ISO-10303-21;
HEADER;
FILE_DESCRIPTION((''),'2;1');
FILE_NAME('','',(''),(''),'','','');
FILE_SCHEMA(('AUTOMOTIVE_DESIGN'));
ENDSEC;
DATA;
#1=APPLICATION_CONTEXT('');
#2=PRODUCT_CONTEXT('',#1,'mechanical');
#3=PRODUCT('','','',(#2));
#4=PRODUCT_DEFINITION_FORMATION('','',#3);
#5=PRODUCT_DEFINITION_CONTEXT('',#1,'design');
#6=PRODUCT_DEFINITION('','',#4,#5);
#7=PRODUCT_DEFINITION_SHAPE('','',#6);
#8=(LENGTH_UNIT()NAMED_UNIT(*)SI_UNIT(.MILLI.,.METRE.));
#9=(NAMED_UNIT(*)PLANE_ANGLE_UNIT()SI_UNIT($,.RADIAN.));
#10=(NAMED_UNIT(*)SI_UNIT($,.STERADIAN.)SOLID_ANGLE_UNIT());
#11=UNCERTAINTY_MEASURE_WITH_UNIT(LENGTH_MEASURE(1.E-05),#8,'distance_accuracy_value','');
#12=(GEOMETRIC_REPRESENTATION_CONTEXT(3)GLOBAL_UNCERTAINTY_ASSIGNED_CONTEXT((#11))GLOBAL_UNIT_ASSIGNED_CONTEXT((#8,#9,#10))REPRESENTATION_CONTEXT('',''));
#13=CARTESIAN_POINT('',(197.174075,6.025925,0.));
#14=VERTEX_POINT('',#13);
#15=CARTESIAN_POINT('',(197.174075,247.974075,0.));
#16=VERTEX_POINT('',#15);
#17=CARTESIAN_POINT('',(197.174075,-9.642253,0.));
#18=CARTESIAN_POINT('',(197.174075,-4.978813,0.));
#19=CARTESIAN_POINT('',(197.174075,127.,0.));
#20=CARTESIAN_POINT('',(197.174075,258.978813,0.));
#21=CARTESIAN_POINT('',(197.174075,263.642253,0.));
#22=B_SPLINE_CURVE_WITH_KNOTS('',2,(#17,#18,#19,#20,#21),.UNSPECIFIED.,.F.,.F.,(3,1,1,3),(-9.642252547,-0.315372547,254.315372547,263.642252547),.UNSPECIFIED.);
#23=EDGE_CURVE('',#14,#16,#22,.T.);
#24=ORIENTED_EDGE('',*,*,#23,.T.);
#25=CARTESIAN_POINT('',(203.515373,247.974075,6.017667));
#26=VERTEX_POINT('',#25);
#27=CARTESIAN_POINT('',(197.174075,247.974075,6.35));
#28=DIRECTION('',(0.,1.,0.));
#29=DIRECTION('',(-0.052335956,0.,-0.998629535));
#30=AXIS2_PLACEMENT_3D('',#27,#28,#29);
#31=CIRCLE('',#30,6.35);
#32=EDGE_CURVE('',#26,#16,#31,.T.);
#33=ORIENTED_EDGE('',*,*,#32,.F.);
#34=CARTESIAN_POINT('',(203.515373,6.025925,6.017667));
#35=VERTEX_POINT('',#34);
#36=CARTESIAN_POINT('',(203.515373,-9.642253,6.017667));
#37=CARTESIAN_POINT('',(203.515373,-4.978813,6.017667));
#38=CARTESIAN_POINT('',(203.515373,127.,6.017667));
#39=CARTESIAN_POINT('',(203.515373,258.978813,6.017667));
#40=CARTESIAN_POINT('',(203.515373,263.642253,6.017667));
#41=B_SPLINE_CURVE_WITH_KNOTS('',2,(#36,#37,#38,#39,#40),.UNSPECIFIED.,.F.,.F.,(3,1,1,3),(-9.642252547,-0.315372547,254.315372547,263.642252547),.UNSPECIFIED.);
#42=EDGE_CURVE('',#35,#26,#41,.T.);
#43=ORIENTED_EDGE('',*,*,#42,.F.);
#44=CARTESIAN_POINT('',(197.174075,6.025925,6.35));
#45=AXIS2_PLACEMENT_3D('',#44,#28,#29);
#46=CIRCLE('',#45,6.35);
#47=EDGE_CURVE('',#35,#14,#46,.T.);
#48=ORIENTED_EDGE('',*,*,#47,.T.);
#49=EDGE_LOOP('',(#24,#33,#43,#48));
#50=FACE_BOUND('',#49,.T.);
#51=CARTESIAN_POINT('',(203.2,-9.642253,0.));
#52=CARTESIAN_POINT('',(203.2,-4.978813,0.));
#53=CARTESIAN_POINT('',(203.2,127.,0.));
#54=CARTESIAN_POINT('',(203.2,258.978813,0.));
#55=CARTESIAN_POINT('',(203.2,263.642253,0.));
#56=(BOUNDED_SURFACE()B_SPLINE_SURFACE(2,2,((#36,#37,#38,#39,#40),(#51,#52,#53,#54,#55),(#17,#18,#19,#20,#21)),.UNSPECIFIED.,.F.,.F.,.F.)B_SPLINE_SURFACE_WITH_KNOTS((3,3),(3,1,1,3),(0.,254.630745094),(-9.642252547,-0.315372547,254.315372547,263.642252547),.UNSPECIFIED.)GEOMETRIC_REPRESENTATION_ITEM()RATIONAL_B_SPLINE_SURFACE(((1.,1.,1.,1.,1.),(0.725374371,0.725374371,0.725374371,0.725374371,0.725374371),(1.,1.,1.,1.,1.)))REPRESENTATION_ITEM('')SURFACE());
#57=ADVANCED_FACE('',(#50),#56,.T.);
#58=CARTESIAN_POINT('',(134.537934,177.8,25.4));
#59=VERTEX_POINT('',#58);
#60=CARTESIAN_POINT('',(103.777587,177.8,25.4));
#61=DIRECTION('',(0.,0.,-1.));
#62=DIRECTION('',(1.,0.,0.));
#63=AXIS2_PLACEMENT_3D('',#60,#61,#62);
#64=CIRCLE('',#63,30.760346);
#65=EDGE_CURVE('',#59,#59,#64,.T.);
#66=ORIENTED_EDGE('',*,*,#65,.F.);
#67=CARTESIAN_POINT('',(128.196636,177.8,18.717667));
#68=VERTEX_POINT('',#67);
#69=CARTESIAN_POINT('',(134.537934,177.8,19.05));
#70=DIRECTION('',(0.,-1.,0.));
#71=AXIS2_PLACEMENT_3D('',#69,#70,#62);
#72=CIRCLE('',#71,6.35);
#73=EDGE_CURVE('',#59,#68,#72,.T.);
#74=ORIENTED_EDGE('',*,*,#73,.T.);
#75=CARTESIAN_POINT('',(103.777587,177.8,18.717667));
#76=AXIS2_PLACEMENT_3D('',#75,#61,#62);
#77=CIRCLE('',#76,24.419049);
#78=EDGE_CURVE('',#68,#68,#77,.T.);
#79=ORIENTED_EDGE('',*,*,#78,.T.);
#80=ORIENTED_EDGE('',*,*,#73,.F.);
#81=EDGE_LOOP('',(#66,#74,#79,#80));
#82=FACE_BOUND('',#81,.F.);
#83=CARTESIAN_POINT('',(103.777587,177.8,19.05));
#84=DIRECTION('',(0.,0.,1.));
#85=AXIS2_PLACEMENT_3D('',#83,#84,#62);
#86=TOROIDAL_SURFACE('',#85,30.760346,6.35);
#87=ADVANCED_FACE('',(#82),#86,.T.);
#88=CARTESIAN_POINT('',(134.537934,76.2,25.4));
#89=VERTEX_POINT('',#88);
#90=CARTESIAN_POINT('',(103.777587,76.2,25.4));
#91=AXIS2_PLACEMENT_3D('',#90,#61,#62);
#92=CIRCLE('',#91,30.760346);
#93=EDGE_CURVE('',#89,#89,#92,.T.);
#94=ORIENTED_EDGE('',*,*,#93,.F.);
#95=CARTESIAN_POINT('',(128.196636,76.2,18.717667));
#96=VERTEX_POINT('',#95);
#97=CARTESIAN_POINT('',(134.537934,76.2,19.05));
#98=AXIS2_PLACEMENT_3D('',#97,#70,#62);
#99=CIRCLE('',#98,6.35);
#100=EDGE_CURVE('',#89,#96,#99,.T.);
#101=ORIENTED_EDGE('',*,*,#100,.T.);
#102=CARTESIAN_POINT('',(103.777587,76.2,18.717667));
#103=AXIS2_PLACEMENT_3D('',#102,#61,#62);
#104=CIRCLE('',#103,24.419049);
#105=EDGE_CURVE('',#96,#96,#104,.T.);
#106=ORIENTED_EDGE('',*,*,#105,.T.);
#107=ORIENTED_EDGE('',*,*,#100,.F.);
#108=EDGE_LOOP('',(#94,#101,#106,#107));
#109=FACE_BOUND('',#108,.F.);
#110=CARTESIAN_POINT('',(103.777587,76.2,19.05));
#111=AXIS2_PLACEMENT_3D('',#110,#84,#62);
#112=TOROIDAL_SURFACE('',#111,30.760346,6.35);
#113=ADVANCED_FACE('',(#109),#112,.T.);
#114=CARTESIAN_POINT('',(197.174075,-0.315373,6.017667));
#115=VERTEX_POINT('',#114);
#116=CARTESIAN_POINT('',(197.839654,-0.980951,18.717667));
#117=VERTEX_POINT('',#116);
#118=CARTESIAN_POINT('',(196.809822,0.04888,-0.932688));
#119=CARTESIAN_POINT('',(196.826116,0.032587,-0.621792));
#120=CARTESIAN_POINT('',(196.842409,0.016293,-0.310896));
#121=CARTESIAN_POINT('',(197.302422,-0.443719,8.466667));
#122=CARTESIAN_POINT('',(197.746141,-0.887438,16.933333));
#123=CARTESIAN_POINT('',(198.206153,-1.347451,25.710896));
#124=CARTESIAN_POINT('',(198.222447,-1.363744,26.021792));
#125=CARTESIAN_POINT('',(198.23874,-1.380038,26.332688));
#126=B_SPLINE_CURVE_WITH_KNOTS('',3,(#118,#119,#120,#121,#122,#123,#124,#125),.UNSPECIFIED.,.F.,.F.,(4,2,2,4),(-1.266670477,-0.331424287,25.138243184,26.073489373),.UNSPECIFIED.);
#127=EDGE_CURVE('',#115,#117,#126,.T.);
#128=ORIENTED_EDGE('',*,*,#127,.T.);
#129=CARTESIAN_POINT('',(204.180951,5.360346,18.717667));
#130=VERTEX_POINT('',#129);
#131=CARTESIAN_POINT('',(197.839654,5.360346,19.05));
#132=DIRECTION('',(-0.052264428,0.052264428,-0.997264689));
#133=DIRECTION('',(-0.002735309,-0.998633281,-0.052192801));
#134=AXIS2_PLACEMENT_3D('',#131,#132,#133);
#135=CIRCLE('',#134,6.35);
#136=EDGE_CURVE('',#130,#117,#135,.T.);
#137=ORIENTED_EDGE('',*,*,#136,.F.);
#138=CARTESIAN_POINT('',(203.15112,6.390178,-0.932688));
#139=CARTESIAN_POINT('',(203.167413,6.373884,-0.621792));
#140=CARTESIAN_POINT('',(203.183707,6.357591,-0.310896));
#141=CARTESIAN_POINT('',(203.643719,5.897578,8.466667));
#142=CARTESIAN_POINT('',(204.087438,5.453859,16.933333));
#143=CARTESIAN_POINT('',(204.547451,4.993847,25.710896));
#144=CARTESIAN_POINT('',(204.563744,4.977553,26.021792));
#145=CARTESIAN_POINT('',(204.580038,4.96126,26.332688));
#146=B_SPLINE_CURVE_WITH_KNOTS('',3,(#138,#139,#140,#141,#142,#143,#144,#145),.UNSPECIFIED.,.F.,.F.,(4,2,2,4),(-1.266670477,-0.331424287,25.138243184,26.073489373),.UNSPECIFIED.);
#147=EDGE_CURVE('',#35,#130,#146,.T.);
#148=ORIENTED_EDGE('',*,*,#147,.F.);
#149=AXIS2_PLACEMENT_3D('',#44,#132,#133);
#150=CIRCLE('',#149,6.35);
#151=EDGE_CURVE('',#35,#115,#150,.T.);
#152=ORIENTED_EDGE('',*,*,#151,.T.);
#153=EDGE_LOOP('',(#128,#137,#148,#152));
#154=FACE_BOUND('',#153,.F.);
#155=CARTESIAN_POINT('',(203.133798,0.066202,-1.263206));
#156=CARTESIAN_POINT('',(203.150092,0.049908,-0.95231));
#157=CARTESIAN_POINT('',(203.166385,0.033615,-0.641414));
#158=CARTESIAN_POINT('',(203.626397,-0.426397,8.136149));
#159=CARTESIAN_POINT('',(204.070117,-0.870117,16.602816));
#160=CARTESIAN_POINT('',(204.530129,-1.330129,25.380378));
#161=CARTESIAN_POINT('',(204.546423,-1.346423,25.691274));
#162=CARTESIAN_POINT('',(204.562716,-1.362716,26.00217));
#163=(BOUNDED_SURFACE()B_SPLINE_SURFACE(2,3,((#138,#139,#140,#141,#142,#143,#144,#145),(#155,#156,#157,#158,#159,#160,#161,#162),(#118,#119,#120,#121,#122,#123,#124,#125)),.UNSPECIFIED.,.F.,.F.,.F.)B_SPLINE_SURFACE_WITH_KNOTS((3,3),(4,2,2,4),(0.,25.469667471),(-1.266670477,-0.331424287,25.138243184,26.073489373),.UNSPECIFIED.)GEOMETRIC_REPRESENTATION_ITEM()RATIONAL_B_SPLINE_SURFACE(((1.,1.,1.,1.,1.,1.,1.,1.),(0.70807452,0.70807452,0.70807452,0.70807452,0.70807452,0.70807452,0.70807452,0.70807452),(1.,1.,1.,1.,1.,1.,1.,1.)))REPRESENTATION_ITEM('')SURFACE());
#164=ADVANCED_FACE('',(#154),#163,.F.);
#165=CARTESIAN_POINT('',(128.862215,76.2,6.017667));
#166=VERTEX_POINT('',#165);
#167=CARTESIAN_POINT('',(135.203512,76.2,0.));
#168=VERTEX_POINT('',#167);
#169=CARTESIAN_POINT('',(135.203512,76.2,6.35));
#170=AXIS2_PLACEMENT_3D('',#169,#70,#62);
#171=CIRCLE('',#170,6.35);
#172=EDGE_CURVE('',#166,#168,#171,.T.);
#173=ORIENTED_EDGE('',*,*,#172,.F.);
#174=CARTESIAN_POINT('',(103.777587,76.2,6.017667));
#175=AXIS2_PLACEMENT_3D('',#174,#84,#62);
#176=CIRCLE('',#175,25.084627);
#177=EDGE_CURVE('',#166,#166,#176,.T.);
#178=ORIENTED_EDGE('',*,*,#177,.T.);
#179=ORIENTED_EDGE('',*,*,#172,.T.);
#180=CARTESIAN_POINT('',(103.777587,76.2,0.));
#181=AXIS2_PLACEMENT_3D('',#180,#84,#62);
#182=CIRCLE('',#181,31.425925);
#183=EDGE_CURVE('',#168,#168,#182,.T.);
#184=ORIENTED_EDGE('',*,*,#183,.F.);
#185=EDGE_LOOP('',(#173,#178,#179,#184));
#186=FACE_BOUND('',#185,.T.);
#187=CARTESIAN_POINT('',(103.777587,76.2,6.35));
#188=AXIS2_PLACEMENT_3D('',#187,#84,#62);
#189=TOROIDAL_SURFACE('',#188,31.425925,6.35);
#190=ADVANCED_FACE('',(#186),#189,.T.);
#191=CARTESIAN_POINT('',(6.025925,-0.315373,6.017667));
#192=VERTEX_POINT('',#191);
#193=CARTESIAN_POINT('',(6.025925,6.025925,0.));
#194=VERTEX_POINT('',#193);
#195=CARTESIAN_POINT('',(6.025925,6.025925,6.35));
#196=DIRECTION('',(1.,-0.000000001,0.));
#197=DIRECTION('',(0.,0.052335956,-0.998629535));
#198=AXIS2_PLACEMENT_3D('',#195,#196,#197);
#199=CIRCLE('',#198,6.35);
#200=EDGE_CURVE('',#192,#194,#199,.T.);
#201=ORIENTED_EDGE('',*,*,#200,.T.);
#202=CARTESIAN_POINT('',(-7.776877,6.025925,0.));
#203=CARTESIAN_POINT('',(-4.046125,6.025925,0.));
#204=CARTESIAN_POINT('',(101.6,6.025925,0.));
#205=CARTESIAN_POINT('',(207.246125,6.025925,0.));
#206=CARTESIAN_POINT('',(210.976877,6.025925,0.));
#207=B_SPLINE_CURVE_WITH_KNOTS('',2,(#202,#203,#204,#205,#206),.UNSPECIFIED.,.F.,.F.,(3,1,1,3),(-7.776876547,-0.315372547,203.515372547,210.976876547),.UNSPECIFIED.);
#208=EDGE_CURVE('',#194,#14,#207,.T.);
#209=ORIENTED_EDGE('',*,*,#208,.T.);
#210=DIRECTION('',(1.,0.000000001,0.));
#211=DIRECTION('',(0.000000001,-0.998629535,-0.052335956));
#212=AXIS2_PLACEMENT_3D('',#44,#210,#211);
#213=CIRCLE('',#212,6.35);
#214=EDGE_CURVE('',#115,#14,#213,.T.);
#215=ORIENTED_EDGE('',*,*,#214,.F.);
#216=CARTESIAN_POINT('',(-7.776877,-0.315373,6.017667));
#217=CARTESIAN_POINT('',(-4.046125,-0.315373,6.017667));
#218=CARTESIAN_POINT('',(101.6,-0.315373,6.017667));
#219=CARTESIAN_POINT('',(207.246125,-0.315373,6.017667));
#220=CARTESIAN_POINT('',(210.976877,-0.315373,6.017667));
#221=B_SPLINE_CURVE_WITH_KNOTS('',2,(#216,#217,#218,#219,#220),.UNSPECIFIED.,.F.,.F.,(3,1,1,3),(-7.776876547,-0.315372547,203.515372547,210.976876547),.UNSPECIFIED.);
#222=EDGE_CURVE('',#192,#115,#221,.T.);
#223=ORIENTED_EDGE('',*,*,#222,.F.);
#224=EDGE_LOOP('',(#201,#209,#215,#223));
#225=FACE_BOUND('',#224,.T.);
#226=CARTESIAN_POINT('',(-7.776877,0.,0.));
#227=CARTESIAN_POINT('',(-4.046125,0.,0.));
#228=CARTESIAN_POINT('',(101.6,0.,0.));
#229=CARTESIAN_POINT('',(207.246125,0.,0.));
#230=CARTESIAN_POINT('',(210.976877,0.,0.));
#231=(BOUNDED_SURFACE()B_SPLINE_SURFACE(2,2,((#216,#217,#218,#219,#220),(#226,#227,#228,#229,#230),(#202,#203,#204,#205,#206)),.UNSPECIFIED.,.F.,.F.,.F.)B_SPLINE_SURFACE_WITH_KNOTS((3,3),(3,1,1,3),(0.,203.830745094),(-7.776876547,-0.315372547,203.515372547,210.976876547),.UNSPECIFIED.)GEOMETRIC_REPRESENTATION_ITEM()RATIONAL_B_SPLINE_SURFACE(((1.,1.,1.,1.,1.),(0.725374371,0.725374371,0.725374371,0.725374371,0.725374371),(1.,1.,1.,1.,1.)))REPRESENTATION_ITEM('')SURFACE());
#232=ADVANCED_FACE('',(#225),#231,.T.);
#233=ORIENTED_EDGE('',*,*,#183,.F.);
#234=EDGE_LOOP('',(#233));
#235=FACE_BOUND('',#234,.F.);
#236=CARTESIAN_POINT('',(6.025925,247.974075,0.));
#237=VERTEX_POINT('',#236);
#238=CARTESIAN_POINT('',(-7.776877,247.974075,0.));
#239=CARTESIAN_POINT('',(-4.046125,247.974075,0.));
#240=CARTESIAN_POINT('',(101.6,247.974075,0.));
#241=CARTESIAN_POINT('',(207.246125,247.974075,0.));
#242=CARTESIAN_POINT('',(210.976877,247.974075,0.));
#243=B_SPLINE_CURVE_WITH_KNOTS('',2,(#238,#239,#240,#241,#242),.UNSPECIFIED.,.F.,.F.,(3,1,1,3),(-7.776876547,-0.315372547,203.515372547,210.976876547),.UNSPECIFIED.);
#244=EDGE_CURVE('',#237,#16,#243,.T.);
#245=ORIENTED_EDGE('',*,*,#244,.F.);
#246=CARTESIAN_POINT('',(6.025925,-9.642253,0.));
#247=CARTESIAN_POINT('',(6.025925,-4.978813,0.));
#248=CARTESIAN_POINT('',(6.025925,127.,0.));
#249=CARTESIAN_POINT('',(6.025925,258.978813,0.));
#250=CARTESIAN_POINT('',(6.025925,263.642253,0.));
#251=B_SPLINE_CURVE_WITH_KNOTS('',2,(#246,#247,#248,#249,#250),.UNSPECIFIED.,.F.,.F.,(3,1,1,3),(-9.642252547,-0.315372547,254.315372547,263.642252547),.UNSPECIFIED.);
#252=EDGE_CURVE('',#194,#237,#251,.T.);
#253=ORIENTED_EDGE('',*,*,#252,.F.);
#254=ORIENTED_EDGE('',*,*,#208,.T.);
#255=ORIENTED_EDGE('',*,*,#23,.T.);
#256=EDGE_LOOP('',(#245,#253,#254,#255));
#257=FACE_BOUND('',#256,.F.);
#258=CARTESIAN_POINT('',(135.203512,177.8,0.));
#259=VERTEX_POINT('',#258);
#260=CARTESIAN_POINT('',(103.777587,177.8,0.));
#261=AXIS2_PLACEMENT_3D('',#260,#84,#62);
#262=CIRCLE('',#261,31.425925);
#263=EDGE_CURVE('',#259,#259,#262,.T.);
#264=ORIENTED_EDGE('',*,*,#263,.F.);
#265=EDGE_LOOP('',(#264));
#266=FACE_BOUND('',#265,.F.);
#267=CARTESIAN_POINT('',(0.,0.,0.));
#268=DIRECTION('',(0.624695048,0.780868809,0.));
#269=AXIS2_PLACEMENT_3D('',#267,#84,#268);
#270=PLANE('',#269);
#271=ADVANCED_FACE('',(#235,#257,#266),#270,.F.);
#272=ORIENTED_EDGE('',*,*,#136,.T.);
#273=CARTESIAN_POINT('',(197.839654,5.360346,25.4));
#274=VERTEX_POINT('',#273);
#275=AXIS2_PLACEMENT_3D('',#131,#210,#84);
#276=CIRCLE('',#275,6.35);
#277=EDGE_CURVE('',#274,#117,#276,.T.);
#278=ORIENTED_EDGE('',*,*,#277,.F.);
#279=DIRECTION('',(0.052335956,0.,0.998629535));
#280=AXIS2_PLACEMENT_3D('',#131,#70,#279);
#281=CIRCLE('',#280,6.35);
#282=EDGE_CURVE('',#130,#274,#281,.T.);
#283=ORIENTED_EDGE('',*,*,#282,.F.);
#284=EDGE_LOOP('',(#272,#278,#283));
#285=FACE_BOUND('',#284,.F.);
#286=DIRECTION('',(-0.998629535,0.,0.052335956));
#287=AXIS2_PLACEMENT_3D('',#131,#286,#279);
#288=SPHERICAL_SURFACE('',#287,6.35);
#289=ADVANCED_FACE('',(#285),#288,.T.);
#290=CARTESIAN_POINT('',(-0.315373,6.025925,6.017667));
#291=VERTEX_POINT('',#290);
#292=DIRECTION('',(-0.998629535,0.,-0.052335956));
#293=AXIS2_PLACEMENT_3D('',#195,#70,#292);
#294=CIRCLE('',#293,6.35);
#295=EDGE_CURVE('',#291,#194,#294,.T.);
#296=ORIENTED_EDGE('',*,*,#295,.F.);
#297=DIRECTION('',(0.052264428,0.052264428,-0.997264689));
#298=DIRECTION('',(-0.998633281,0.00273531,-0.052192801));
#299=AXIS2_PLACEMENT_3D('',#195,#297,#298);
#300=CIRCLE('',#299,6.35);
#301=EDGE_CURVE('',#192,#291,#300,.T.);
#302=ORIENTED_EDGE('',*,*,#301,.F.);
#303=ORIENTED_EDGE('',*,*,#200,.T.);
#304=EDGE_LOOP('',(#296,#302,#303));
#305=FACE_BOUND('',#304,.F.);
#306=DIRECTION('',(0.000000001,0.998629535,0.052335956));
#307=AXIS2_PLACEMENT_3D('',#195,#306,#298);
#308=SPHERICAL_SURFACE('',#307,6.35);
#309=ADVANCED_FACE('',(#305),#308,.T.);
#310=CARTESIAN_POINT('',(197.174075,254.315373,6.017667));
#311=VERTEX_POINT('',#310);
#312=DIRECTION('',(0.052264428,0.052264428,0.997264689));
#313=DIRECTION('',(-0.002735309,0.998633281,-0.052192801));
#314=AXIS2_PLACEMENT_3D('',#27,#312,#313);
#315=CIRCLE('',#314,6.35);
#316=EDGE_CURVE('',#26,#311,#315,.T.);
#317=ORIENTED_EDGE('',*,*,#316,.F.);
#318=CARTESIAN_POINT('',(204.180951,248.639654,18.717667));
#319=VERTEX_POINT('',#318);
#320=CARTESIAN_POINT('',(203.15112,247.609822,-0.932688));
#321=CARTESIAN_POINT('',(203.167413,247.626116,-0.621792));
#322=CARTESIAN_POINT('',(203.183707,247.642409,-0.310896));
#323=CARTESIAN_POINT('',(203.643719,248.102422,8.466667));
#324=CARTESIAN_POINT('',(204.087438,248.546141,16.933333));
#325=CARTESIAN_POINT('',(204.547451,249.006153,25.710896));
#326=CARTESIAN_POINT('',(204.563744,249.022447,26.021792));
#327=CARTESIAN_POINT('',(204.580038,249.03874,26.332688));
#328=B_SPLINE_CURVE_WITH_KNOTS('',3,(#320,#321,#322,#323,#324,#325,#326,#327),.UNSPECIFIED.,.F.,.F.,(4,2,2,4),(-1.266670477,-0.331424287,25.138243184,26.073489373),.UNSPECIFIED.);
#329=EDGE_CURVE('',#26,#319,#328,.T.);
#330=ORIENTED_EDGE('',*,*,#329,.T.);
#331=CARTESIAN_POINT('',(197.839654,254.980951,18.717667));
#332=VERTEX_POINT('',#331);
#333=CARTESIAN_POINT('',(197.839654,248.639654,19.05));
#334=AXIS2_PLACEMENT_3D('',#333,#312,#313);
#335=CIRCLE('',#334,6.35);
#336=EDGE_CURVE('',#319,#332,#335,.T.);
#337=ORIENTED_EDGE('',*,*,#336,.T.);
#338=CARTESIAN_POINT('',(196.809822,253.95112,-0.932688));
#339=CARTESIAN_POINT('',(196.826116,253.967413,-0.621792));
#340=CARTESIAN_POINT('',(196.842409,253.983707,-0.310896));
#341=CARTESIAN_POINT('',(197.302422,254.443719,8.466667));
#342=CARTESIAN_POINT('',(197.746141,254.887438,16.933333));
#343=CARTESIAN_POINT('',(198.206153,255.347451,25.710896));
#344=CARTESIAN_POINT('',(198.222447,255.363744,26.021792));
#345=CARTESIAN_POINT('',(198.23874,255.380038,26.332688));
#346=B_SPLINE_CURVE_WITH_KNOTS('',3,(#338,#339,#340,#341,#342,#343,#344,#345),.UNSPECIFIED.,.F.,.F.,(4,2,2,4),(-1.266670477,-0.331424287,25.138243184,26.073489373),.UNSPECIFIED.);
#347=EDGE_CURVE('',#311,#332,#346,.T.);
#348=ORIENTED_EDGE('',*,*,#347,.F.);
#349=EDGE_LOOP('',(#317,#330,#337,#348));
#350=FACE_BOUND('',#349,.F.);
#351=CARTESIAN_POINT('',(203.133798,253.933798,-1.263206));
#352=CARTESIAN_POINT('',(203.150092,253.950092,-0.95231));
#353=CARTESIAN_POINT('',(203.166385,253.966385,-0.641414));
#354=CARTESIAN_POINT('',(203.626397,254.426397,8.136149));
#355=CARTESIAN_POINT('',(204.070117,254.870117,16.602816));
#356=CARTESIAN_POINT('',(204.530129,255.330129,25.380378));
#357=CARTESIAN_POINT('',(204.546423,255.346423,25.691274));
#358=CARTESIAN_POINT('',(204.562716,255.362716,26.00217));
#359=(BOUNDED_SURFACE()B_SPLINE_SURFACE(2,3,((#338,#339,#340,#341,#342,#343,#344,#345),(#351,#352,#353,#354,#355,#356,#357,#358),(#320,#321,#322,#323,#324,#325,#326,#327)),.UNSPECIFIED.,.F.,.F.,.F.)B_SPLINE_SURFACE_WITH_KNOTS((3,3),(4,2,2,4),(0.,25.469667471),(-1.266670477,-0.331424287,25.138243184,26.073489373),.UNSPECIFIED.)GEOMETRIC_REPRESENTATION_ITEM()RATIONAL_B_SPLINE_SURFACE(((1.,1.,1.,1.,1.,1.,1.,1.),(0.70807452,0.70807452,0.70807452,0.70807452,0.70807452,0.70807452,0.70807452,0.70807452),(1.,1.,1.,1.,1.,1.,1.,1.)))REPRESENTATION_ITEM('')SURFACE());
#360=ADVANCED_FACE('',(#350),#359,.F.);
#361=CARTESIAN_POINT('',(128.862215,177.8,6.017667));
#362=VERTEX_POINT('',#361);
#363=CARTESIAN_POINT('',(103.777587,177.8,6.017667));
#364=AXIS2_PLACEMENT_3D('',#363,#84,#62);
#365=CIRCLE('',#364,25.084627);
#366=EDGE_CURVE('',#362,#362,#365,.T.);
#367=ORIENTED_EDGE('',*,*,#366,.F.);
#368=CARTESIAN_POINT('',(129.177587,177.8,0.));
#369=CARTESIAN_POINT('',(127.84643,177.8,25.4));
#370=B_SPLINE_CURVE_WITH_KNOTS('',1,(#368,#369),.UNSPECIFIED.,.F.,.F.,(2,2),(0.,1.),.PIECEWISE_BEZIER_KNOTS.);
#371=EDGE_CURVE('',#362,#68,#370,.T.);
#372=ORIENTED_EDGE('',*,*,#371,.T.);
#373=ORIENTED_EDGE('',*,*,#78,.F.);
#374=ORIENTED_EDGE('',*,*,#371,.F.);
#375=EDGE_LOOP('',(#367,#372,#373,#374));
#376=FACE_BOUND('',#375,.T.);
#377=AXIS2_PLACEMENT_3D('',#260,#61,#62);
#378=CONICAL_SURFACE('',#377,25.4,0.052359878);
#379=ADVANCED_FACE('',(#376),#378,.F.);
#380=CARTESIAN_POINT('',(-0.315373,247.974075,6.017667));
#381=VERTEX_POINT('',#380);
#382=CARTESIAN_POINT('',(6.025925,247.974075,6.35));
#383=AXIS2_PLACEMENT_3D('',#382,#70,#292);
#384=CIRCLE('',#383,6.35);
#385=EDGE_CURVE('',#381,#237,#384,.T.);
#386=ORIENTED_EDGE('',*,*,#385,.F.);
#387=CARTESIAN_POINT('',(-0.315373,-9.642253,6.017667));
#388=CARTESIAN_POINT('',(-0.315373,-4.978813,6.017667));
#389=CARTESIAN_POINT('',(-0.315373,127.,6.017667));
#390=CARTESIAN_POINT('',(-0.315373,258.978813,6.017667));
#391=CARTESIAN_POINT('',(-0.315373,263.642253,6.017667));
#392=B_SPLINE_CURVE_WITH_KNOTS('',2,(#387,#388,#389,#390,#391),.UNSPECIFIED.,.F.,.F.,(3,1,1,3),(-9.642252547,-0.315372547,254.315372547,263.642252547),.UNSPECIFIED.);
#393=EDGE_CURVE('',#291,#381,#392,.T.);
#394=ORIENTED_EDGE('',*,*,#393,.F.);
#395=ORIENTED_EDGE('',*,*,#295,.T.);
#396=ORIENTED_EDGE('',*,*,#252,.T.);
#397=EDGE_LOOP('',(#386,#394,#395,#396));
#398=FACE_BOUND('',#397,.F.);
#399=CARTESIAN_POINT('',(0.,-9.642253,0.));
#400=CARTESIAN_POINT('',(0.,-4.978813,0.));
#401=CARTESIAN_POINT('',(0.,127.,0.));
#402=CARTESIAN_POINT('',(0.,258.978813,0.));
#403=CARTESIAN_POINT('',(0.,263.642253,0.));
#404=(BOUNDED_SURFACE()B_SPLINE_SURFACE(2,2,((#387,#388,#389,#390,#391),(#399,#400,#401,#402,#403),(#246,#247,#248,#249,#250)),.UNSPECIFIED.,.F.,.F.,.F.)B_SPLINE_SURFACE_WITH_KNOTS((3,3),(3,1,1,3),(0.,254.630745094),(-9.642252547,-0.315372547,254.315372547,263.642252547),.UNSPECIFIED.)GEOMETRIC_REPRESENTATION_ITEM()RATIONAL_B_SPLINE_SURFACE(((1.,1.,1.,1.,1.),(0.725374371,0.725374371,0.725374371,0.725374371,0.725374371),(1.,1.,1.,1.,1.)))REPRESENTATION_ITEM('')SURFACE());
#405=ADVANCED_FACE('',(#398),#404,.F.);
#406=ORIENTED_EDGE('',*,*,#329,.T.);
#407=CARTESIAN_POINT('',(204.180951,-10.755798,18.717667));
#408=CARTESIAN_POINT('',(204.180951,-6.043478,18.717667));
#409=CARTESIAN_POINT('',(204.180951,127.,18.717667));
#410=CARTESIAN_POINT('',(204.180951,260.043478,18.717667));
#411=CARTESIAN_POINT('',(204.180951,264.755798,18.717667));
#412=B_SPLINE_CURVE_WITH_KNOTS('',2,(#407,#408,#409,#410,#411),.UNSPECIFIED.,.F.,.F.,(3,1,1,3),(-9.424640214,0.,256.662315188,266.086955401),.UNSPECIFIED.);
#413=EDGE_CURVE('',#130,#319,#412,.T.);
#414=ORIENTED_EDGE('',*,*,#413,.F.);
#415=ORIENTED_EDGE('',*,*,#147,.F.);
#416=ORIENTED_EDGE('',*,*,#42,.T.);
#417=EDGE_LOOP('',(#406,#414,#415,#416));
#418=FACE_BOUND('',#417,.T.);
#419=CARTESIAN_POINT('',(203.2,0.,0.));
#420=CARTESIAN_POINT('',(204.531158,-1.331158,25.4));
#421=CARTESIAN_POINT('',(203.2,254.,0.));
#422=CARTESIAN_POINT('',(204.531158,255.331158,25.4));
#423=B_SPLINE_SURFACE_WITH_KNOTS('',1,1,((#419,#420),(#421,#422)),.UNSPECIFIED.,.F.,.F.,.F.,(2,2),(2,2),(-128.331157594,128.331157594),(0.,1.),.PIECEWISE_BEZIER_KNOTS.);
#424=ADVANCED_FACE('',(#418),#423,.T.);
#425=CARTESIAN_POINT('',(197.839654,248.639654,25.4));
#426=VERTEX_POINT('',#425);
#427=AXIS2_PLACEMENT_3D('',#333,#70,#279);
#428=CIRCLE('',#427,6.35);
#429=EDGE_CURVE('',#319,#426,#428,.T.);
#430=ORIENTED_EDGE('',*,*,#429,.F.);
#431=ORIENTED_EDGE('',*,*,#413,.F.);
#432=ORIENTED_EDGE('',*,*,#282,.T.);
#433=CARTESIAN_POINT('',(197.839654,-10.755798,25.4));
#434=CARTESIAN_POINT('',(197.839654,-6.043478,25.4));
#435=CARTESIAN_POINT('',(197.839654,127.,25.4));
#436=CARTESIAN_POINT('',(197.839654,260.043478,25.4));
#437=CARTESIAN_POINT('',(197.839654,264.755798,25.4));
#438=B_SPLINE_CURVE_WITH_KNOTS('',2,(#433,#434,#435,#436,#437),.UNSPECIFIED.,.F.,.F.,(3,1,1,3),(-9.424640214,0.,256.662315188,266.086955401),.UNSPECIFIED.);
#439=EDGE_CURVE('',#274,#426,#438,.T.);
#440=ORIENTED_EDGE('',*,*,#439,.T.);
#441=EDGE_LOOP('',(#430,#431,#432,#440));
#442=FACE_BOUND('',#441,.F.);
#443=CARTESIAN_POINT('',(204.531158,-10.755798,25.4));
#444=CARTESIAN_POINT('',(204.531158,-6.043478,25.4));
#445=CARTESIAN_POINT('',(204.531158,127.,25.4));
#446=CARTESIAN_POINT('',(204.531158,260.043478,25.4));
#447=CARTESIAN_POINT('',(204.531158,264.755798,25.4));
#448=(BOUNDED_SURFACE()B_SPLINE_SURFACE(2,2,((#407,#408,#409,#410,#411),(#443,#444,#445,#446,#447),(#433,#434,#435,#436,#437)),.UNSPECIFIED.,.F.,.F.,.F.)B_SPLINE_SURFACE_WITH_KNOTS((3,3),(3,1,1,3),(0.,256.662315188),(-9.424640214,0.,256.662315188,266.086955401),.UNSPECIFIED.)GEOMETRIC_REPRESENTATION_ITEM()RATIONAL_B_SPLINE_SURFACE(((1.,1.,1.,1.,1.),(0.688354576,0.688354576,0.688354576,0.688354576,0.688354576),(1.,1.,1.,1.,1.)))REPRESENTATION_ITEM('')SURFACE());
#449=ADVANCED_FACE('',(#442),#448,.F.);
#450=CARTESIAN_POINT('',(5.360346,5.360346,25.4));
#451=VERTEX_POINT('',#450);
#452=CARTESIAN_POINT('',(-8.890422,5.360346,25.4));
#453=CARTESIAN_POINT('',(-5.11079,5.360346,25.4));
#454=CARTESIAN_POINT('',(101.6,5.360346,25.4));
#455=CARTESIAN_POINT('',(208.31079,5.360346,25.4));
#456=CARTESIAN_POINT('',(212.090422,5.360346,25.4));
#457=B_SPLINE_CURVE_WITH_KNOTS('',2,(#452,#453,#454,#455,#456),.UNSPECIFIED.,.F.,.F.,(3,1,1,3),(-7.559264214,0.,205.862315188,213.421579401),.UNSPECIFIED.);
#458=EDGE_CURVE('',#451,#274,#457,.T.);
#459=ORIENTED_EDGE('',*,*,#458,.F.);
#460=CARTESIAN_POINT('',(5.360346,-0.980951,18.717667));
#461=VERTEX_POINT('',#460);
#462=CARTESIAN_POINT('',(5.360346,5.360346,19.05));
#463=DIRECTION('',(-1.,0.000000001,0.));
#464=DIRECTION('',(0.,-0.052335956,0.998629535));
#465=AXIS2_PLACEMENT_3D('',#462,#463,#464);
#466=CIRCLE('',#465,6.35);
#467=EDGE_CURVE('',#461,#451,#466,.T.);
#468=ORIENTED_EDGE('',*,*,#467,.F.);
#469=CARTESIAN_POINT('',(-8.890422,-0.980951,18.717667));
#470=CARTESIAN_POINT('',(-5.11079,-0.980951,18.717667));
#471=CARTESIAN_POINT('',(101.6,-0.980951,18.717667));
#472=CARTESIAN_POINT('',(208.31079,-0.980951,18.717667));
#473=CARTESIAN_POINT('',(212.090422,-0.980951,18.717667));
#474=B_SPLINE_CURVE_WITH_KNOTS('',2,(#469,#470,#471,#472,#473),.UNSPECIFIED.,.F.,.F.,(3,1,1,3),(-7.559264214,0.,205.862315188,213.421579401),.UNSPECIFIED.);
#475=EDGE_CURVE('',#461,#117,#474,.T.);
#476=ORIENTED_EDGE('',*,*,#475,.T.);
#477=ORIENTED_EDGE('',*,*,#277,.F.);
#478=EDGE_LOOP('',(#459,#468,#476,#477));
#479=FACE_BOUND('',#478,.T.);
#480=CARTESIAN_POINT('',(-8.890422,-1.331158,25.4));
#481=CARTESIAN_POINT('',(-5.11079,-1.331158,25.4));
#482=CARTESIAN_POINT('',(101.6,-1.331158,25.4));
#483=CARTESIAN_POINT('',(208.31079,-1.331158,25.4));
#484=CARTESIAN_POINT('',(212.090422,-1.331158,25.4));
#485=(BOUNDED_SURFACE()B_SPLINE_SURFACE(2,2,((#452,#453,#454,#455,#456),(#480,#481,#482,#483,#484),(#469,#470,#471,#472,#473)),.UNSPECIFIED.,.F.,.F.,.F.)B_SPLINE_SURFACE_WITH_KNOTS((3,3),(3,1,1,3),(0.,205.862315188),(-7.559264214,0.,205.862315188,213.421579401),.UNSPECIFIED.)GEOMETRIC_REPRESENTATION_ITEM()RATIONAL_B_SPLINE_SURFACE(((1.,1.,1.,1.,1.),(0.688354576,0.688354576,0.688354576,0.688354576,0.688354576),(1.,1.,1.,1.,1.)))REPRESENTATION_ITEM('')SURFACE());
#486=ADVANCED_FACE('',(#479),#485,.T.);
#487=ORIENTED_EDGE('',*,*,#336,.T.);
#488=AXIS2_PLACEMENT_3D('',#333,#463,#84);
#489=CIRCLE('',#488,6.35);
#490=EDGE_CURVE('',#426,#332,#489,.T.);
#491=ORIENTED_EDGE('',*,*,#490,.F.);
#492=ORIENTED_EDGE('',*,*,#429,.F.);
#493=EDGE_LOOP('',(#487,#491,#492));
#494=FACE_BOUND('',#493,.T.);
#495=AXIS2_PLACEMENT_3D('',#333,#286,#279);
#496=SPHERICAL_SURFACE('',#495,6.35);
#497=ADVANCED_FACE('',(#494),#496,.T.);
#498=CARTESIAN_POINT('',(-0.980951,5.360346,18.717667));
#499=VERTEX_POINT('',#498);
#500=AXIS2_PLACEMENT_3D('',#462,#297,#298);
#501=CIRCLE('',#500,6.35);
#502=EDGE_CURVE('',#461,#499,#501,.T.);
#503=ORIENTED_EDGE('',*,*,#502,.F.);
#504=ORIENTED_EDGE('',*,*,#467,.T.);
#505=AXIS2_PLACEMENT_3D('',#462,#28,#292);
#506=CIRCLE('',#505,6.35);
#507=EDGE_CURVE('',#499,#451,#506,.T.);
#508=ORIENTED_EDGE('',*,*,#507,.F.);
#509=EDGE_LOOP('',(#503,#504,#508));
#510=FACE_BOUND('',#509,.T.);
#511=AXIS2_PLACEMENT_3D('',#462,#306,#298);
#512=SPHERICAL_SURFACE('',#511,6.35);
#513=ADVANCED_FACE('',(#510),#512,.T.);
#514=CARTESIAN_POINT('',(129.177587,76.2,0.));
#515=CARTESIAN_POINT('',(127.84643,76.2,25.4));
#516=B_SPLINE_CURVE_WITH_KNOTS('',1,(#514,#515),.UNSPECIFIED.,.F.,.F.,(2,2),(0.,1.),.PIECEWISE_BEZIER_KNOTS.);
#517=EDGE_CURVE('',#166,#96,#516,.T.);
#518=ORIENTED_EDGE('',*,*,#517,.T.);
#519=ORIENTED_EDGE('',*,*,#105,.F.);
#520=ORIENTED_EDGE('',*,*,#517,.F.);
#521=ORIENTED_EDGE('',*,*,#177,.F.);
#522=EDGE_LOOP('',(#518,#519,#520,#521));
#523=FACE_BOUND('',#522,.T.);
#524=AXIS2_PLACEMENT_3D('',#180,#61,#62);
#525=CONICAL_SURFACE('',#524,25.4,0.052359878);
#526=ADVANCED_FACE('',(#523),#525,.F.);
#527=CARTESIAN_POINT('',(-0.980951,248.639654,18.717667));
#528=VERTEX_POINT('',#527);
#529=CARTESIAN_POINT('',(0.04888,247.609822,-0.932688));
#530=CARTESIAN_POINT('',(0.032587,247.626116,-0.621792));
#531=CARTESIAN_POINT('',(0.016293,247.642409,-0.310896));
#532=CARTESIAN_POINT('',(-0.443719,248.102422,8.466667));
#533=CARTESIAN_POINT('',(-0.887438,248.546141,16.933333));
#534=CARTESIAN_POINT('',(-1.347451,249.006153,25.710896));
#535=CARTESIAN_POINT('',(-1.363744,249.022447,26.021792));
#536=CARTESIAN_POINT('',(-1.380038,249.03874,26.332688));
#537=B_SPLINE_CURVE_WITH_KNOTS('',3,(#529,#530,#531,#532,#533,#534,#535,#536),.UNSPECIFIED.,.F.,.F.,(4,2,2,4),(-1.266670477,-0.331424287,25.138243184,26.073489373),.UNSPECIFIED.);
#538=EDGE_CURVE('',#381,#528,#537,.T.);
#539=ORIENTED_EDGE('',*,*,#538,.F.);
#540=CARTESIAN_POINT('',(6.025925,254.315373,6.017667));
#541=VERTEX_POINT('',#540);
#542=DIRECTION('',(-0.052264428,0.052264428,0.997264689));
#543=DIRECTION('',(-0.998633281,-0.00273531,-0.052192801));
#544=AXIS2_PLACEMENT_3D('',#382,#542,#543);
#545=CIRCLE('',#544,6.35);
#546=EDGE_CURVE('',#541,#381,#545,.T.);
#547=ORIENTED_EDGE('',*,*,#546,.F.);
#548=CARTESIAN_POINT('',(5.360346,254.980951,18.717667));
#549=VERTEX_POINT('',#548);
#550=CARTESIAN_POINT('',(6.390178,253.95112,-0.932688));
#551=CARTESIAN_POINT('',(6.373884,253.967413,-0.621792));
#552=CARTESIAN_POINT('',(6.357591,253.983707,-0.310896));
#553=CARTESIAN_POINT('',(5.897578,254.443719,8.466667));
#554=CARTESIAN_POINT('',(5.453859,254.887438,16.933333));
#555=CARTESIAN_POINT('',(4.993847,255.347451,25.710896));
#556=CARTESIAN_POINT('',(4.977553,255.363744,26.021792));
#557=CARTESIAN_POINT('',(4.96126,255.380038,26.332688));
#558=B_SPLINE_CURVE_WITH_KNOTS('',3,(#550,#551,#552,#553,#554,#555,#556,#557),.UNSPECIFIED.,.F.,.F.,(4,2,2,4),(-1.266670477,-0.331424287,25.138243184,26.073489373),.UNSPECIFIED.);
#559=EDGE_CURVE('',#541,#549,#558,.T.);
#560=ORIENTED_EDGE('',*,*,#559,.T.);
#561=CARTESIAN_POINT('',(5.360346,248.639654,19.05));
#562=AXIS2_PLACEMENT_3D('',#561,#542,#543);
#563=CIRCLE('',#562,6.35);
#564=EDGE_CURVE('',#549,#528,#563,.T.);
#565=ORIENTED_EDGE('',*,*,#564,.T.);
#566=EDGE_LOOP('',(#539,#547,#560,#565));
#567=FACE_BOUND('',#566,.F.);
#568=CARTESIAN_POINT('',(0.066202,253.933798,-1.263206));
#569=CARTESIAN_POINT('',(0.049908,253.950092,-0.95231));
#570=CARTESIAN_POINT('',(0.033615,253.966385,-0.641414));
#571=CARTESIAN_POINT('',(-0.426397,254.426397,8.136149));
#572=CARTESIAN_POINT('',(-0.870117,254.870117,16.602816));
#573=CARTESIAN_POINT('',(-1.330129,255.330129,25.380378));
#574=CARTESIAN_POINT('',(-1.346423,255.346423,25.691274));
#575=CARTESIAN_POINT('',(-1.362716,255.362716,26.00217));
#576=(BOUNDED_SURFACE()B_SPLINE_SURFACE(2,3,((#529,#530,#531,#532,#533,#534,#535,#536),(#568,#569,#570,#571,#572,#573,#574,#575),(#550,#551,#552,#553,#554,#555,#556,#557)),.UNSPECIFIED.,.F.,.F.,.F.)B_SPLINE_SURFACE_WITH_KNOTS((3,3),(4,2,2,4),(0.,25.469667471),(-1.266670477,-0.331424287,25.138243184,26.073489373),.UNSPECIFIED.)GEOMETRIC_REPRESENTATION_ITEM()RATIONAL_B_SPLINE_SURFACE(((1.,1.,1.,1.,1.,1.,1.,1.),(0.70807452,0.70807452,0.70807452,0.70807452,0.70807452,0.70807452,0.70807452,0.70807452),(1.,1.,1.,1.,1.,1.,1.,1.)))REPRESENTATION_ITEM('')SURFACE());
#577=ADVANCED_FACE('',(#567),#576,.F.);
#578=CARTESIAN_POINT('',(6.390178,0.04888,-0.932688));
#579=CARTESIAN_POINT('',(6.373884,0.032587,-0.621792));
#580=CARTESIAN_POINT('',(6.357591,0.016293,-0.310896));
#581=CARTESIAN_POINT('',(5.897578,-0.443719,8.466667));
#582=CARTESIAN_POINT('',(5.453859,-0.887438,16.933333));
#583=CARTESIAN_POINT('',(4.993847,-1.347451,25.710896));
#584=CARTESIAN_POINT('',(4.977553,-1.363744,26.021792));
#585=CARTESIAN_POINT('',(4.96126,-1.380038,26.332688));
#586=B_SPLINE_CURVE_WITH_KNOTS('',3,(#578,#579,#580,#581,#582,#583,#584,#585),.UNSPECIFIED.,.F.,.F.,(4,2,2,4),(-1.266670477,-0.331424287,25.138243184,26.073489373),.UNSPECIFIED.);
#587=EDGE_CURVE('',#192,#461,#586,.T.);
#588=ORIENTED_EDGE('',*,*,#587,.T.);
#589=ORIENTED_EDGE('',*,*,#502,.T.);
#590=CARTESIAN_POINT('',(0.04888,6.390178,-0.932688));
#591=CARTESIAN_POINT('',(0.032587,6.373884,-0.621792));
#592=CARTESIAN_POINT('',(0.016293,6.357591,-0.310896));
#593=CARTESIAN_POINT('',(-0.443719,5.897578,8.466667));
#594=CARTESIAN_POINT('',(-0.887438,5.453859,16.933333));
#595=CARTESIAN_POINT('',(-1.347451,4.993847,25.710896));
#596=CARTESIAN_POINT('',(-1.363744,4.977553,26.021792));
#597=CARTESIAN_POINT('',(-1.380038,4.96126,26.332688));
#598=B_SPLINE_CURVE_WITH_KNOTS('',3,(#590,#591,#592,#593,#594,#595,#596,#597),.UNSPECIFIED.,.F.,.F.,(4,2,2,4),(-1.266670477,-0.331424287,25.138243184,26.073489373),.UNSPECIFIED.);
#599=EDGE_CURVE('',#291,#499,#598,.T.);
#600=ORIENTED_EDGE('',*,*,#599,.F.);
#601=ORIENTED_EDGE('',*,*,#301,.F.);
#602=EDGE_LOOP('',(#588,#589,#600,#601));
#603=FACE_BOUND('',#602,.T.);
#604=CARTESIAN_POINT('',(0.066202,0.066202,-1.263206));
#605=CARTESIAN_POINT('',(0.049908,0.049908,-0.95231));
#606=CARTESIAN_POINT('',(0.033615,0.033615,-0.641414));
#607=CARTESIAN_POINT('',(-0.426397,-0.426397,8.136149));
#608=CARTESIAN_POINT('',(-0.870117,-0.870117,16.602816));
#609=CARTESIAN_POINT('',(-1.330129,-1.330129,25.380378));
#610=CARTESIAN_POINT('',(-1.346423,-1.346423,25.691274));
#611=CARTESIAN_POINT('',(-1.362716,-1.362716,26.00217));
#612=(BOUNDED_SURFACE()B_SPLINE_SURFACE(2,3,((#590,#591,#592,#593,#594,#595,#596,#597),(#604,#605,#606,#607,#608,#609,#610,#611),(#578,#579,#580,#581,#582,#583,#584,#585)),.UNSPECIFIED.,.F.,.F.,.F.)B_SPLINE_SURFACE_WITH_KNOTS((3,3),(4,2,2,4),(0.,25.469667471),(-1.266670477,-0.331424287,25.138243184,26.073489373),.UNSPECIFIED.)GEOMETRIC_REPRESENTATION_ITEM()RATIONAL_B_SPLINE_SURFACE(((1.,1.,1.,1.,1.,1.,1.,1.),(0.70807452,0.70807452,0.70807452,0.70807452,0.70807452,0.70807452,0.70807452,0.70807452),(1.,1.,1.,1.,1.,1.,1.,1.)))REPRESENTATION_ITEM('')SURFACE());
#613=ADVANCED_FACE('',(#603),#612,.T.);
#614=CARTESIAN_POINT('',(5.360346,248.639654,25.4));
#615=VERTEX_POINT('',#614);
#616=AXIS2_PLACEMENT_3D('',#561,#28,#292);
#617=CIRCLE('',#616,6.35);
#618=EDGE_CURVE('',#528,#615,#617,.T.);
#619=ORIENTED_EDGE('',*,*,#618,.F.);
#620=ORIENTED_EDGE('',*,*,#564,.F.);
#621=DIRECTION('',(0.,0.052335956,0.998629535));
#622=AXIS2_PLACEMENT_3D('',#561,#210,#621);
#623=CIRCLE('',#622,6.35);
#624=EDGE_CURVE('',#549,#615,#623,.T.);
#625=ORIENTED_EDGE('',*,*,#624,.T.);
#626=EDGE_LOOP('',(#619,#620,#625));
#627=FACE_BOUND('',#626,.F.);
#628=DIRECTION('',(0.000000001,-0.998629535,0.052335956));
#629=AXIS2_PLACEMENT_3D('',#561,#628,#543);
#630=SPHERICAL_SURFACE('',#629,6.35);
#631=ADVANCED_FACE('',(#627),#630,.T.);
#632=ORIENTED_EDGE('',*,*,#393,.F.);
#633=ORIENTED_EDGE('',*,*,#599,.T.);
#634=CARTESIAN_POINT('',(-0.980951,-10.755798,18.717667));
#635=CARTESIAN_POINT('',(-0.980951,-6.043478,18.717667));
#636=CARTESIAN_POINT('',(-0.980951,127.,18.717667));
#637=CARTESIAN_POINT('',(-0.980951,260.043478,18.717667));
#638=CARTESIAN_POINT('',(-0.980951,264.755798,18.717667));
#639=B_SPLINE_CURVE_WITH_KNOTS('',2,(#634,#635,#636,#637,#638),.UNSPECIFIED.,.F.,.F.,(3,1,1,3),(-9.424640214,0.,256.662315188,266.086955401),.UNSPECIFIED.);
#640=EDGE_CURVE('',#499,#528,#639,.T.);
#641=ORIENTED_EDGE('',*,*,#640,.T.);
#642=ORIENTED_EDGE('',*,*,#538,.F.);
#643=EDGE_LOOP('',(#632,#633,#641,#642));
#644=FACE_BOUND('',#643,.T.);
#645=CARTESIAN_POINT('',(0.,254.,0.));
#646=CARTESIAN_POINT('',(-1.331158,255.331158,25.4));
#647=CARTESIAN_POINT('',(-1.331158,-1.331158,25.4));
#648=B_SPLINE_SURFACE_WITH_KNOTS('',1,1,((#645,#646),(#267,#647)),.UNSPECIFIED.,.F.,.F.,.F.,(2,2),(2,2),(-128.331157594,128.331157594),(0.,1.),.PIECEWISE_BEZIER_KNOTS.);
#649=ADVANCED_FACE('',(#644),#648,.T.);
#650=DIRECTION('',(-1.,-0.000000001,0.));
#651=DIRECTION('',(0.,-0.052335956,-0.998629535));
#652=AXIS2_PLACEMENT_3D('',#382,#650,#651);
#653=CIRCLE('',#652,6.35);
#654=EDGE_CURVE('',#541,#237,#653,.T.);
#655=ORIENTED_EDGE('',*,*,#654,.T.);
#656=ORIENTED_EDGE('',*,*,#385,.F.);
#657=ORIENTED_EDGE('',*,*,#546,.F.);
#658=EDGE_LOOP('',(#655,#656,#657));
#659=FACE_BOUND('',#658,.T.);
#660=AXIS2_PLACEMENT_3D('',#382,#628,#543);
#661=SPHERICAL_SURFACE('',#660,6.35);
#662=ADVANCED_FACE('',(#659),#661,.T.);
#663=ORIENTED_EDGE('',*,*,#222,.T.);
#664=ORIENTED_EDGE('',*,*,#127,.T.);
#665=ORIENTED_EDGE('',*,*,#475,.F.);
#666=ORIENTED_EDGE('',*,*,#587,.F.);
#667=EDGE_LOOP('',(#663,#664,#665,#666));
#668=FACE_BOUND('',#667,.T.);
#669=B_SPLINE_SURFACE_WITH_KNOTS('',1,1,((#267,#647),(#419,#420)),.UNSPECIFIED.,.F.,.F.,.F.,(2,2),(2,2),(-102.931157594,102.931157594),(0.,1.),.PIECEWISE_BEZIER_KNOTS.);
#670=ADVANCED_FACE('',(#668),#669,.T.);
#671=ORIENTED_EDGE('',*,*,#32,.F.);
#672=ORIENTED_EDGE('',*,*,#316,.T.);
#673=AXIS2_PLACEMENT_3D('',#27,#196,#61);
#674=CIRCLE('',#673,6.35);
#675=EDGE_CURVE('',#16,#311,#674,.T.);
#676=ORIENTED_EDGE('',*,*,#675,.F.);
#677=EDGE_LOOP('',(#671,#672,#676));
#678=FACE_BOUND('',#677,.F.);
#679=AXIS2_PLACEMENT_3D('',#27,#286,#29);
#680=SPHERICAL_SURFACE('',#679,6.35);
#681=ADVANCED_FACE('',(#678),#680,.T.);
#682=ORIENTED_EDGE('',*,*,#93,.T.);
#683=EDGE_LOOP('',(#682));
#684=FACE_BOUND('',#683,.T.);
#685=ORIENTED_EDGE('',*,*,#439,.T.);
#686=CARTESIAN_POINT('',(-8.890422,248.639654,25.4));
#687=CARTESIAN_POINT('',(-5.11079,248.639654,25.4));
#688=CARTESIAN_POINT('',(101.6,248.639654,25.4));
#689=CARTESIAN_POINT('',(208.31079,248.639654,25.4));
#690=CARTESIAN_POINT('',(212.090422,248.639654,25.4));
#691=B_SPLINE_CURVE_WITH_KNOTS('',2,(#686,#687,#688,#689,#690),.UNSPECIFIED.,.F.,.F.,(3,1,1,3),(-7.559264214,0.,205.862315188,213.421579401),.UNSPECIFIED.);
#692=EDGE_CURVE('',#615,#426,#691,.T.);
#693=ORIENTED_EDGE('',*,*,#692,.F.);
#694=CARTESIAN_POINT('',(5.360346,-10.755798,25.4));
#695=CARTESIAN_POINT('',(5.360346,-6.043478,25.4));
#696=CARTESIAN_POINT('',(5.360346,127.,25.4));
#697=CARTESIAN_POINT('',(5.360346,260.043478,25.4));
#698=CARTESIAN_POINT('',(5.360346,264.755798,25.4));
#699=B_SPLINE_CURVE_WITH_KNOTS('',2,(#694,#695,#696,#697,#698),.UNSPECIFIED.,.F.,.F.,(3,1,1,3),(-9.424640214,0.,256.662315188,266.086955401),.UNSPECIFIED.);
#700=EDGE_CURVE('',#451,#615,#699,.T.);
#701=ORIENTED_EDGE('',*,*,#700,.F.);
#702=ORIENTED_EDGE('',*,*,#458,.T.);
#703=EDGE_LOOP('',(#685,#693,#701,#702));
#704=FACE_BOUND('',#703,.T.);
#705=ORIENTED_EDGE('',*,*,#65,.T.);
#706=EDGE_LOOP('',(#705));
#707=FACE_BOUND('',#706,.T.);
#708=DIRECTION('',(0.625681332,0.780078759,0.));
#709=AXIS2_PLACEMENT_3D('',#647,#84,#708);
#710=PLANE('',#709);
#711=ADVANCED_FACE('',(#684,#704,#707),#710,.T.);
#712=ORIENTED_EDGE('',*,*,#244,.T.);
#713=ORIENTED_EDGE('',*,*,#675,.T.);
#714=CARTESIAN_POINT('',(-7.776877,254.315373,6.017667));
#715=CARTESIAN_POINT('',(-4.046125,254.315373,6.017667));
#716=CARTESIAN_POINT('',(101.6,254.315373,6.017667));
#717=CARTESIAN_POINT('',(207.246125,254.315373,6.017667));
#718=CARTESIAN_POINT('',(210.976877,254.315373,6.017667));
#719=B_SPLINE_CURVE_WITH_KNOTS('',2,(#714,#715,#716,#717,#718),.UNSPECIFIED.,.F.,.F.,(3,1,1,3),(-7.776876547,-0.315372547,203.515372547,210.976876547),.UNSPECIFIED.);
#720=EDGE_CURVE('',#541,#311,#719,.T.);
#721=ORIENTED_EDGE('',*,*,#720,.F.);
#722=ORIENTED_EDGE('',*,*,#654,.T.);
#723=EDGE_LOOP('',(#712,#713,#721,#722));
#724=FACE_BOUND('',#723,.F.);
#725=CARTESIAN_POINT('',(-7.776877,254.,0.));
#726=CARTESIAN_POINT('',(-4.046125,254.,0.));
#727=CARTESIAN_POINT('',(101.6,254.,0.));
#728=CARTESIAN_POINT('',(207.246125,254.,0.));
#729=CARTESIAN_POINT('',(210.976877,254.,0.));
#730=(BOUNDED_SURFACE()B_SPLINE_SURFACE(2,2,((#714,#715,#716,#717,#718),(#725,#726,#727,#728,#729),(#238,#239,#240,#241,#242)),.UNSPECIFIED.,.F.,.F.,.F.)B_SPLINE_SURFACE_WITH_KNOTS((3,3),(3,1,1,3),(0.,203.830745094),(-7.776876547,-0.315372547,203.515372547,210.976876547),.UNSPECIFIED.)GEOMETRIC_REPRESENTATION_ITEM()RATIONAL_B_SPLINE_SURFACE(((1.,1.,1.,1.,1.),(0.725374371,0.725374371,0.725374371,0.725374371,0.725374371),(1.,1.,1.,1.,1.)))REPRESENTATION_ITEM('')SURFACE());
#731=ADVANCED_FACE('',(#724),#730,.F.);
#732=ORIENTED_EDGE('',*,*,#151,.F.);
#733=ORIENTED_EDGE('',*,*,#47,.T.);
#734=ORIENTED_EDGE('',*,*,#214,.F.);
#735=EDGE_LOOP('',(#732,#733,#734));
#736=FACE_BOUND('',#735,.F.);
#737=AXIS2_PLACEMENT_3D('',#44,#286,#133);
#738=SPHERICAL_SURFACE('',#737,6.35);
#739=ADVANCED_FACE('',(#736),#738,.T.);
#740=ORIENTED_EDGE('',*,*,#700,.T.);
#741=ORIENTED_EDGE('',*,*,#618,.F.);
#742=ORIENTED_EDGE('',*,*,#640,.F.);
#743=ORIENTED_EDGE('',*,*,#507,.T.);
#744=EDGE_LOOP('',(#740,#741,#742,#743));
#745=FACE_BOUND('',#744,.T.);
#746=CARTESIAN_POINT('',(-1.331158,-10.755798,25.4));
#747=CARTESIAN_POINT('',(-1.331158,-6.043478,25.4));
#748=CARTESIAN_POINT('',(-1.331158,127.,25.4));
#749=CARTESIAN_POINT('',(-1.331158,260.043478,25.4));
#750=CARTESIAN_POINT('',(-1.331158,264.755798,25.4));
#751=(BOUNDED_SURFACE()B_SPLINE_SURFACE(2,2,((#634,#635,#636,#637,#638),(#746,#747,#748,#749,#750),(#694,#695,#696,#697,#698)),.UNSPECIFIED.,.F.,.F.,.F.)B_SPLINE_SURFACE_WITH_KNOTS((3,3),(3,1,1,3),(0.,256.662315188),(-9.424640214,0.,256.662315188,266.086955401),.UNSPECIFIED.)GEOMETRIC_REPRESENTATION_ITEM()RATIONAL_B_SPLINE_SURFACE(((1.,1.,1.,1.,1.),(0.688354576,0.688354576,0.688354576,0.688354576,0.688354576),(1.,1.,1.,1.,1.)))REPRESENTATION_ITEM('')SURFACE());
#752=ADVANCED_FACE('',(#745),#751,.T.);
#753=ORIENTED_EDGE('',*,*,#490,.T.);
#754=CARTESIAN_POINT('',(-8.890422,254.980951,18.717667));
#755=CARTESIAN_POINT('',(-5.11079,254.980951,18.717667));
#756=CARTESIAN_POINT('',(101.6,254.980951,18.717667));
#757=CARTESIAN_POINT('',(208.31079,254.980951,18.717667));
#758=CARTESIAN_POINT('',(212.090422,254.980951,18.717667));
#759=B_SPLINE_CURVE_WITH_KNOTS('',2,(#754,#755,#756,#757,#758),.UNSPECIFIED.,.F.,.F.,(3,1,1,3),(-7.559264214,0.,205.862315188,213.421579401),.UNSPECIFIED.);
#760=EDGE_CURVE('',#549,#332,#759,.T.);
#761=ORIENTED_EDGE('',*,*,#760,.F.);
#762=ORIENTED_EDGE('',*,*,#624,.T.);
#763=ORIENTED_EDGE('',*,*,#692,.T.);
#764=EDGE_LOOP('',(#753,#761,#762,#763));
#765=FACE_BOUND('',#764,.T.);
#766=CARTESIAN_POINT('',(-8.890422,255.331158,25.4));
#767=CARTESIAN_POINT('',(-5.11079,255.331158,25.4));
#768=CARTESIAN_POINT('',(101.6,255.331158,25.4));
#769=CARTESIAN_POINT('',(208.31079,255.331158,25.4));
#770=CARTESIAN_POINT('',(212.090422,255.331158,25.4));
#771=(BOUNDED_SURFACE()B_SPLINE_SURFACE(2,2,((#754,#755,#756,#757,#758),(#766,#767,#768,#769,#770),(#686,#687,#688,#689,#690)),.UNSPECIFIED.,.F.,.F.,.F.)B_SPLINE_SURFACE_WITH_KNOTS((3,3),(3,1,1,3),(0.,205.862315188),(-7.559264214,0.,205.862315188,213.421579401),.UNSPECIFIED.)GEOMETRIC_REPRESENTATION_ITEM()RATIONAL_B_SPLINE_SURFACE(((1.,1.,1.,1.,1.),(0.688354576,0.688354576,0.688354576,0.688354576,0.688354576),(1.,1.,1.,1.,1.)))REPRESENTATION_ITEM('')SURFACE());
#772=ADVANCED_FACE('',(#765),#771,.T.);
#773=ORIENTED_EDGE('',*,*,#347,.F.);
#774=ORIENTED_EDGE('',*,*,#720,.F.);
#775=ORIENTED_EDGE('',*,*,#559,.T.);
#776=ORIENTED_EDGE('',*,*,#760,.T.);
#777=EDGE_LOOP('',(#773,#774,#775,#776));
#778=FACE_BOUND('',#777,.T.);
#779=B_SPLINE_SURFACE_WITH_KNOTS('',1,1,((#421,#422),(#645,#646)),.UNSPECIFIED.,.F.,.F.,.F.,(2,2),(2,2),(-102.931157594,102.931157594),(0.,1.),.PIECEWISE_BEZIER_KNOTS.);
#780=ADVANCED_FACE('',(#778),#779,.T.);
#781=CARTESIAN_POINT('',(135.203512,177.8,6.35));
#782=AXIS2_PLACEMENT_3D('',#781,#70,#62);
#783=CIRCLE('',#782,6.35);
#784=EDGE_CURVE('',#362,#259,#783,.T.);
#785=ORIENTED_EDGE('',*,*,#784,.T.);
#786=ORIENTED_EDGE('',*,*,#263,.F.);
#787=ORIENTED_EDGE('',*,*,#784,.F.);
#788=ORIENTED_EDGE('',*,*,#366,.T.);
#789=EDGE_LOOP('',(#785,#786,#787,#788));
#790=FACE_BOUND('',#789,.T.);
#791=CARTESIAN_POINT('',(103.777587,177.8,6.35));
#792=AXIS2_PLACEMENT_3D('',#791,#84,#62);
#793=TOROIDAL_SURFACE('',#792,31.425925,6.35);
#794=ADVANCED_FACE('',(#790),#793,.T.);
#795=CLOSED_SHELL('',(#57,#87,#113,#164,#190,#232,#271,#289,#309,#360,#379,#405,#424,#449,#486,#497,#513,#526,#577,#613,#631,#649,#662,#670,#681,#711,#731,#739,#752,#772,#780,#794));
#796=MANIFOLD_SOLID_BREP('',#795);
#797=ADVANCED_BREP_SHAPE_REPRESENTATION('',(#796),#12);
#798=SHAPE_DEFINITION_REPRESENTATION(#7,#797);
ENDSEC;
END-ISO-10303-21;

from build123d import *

# Parameters (mm, degrees)
F0_W     = 203.2
F0_H     = 254
F0_R     = 25.4
F1_DEPTH = 25.4
F1_TAPER = -3
F2_R     = 6.35


with BuildPart() as f1:
    # F0 (on Top) → F1 (new body)
    with BuildSketch(Plane.XY):
        with Locations((101.6, 127)):
            Rectangle(F0_W, F0_H)
        with Locations((103.7775874138, 76.2)):
            Circle(F0_R, mode=Mode.SUBTRACT)
        with Locations((103.7775874138, 177.8)):
            Circle(F0_R, mode=Mode.SUBTRACT)
    extrude(amount=F1_DEPTH, taper=F1_TAPER)

    # F2
    f2_edges = [f1.edges().sort_by_distance(p)[0] for p in [
        (0, 127, 0),
        (-1.331158, 127, 25.4),
        (-0.665579, 254.665579, 12.7),
        (101.6, 255.331158, 25.4),
        (79.708745, 177.8, 25.4),
        (78.377587, 177.8, 0),
        (128.512009, 177.8, 12.7),
        (-0.665579, -0.665579, 12.7),
        (101.6, -1.331158, 25.4),
        (204.531158, 127, 25.4),
        (79.708745, 76.2, 25.4),
        (78.377587, 76.2, 0),
        (128.512009, 76.2, 12.7),
        (101.6, 0, 0),
        (203.865579, -0.665579, 12.7),
        (101.6, 254, 0),
        (203.2, 127, 0),
        (203.865579, 254.665579, 12.7),
    ]]
    fillet(f2_edges, radius=F2_R)


solid = f1.part
